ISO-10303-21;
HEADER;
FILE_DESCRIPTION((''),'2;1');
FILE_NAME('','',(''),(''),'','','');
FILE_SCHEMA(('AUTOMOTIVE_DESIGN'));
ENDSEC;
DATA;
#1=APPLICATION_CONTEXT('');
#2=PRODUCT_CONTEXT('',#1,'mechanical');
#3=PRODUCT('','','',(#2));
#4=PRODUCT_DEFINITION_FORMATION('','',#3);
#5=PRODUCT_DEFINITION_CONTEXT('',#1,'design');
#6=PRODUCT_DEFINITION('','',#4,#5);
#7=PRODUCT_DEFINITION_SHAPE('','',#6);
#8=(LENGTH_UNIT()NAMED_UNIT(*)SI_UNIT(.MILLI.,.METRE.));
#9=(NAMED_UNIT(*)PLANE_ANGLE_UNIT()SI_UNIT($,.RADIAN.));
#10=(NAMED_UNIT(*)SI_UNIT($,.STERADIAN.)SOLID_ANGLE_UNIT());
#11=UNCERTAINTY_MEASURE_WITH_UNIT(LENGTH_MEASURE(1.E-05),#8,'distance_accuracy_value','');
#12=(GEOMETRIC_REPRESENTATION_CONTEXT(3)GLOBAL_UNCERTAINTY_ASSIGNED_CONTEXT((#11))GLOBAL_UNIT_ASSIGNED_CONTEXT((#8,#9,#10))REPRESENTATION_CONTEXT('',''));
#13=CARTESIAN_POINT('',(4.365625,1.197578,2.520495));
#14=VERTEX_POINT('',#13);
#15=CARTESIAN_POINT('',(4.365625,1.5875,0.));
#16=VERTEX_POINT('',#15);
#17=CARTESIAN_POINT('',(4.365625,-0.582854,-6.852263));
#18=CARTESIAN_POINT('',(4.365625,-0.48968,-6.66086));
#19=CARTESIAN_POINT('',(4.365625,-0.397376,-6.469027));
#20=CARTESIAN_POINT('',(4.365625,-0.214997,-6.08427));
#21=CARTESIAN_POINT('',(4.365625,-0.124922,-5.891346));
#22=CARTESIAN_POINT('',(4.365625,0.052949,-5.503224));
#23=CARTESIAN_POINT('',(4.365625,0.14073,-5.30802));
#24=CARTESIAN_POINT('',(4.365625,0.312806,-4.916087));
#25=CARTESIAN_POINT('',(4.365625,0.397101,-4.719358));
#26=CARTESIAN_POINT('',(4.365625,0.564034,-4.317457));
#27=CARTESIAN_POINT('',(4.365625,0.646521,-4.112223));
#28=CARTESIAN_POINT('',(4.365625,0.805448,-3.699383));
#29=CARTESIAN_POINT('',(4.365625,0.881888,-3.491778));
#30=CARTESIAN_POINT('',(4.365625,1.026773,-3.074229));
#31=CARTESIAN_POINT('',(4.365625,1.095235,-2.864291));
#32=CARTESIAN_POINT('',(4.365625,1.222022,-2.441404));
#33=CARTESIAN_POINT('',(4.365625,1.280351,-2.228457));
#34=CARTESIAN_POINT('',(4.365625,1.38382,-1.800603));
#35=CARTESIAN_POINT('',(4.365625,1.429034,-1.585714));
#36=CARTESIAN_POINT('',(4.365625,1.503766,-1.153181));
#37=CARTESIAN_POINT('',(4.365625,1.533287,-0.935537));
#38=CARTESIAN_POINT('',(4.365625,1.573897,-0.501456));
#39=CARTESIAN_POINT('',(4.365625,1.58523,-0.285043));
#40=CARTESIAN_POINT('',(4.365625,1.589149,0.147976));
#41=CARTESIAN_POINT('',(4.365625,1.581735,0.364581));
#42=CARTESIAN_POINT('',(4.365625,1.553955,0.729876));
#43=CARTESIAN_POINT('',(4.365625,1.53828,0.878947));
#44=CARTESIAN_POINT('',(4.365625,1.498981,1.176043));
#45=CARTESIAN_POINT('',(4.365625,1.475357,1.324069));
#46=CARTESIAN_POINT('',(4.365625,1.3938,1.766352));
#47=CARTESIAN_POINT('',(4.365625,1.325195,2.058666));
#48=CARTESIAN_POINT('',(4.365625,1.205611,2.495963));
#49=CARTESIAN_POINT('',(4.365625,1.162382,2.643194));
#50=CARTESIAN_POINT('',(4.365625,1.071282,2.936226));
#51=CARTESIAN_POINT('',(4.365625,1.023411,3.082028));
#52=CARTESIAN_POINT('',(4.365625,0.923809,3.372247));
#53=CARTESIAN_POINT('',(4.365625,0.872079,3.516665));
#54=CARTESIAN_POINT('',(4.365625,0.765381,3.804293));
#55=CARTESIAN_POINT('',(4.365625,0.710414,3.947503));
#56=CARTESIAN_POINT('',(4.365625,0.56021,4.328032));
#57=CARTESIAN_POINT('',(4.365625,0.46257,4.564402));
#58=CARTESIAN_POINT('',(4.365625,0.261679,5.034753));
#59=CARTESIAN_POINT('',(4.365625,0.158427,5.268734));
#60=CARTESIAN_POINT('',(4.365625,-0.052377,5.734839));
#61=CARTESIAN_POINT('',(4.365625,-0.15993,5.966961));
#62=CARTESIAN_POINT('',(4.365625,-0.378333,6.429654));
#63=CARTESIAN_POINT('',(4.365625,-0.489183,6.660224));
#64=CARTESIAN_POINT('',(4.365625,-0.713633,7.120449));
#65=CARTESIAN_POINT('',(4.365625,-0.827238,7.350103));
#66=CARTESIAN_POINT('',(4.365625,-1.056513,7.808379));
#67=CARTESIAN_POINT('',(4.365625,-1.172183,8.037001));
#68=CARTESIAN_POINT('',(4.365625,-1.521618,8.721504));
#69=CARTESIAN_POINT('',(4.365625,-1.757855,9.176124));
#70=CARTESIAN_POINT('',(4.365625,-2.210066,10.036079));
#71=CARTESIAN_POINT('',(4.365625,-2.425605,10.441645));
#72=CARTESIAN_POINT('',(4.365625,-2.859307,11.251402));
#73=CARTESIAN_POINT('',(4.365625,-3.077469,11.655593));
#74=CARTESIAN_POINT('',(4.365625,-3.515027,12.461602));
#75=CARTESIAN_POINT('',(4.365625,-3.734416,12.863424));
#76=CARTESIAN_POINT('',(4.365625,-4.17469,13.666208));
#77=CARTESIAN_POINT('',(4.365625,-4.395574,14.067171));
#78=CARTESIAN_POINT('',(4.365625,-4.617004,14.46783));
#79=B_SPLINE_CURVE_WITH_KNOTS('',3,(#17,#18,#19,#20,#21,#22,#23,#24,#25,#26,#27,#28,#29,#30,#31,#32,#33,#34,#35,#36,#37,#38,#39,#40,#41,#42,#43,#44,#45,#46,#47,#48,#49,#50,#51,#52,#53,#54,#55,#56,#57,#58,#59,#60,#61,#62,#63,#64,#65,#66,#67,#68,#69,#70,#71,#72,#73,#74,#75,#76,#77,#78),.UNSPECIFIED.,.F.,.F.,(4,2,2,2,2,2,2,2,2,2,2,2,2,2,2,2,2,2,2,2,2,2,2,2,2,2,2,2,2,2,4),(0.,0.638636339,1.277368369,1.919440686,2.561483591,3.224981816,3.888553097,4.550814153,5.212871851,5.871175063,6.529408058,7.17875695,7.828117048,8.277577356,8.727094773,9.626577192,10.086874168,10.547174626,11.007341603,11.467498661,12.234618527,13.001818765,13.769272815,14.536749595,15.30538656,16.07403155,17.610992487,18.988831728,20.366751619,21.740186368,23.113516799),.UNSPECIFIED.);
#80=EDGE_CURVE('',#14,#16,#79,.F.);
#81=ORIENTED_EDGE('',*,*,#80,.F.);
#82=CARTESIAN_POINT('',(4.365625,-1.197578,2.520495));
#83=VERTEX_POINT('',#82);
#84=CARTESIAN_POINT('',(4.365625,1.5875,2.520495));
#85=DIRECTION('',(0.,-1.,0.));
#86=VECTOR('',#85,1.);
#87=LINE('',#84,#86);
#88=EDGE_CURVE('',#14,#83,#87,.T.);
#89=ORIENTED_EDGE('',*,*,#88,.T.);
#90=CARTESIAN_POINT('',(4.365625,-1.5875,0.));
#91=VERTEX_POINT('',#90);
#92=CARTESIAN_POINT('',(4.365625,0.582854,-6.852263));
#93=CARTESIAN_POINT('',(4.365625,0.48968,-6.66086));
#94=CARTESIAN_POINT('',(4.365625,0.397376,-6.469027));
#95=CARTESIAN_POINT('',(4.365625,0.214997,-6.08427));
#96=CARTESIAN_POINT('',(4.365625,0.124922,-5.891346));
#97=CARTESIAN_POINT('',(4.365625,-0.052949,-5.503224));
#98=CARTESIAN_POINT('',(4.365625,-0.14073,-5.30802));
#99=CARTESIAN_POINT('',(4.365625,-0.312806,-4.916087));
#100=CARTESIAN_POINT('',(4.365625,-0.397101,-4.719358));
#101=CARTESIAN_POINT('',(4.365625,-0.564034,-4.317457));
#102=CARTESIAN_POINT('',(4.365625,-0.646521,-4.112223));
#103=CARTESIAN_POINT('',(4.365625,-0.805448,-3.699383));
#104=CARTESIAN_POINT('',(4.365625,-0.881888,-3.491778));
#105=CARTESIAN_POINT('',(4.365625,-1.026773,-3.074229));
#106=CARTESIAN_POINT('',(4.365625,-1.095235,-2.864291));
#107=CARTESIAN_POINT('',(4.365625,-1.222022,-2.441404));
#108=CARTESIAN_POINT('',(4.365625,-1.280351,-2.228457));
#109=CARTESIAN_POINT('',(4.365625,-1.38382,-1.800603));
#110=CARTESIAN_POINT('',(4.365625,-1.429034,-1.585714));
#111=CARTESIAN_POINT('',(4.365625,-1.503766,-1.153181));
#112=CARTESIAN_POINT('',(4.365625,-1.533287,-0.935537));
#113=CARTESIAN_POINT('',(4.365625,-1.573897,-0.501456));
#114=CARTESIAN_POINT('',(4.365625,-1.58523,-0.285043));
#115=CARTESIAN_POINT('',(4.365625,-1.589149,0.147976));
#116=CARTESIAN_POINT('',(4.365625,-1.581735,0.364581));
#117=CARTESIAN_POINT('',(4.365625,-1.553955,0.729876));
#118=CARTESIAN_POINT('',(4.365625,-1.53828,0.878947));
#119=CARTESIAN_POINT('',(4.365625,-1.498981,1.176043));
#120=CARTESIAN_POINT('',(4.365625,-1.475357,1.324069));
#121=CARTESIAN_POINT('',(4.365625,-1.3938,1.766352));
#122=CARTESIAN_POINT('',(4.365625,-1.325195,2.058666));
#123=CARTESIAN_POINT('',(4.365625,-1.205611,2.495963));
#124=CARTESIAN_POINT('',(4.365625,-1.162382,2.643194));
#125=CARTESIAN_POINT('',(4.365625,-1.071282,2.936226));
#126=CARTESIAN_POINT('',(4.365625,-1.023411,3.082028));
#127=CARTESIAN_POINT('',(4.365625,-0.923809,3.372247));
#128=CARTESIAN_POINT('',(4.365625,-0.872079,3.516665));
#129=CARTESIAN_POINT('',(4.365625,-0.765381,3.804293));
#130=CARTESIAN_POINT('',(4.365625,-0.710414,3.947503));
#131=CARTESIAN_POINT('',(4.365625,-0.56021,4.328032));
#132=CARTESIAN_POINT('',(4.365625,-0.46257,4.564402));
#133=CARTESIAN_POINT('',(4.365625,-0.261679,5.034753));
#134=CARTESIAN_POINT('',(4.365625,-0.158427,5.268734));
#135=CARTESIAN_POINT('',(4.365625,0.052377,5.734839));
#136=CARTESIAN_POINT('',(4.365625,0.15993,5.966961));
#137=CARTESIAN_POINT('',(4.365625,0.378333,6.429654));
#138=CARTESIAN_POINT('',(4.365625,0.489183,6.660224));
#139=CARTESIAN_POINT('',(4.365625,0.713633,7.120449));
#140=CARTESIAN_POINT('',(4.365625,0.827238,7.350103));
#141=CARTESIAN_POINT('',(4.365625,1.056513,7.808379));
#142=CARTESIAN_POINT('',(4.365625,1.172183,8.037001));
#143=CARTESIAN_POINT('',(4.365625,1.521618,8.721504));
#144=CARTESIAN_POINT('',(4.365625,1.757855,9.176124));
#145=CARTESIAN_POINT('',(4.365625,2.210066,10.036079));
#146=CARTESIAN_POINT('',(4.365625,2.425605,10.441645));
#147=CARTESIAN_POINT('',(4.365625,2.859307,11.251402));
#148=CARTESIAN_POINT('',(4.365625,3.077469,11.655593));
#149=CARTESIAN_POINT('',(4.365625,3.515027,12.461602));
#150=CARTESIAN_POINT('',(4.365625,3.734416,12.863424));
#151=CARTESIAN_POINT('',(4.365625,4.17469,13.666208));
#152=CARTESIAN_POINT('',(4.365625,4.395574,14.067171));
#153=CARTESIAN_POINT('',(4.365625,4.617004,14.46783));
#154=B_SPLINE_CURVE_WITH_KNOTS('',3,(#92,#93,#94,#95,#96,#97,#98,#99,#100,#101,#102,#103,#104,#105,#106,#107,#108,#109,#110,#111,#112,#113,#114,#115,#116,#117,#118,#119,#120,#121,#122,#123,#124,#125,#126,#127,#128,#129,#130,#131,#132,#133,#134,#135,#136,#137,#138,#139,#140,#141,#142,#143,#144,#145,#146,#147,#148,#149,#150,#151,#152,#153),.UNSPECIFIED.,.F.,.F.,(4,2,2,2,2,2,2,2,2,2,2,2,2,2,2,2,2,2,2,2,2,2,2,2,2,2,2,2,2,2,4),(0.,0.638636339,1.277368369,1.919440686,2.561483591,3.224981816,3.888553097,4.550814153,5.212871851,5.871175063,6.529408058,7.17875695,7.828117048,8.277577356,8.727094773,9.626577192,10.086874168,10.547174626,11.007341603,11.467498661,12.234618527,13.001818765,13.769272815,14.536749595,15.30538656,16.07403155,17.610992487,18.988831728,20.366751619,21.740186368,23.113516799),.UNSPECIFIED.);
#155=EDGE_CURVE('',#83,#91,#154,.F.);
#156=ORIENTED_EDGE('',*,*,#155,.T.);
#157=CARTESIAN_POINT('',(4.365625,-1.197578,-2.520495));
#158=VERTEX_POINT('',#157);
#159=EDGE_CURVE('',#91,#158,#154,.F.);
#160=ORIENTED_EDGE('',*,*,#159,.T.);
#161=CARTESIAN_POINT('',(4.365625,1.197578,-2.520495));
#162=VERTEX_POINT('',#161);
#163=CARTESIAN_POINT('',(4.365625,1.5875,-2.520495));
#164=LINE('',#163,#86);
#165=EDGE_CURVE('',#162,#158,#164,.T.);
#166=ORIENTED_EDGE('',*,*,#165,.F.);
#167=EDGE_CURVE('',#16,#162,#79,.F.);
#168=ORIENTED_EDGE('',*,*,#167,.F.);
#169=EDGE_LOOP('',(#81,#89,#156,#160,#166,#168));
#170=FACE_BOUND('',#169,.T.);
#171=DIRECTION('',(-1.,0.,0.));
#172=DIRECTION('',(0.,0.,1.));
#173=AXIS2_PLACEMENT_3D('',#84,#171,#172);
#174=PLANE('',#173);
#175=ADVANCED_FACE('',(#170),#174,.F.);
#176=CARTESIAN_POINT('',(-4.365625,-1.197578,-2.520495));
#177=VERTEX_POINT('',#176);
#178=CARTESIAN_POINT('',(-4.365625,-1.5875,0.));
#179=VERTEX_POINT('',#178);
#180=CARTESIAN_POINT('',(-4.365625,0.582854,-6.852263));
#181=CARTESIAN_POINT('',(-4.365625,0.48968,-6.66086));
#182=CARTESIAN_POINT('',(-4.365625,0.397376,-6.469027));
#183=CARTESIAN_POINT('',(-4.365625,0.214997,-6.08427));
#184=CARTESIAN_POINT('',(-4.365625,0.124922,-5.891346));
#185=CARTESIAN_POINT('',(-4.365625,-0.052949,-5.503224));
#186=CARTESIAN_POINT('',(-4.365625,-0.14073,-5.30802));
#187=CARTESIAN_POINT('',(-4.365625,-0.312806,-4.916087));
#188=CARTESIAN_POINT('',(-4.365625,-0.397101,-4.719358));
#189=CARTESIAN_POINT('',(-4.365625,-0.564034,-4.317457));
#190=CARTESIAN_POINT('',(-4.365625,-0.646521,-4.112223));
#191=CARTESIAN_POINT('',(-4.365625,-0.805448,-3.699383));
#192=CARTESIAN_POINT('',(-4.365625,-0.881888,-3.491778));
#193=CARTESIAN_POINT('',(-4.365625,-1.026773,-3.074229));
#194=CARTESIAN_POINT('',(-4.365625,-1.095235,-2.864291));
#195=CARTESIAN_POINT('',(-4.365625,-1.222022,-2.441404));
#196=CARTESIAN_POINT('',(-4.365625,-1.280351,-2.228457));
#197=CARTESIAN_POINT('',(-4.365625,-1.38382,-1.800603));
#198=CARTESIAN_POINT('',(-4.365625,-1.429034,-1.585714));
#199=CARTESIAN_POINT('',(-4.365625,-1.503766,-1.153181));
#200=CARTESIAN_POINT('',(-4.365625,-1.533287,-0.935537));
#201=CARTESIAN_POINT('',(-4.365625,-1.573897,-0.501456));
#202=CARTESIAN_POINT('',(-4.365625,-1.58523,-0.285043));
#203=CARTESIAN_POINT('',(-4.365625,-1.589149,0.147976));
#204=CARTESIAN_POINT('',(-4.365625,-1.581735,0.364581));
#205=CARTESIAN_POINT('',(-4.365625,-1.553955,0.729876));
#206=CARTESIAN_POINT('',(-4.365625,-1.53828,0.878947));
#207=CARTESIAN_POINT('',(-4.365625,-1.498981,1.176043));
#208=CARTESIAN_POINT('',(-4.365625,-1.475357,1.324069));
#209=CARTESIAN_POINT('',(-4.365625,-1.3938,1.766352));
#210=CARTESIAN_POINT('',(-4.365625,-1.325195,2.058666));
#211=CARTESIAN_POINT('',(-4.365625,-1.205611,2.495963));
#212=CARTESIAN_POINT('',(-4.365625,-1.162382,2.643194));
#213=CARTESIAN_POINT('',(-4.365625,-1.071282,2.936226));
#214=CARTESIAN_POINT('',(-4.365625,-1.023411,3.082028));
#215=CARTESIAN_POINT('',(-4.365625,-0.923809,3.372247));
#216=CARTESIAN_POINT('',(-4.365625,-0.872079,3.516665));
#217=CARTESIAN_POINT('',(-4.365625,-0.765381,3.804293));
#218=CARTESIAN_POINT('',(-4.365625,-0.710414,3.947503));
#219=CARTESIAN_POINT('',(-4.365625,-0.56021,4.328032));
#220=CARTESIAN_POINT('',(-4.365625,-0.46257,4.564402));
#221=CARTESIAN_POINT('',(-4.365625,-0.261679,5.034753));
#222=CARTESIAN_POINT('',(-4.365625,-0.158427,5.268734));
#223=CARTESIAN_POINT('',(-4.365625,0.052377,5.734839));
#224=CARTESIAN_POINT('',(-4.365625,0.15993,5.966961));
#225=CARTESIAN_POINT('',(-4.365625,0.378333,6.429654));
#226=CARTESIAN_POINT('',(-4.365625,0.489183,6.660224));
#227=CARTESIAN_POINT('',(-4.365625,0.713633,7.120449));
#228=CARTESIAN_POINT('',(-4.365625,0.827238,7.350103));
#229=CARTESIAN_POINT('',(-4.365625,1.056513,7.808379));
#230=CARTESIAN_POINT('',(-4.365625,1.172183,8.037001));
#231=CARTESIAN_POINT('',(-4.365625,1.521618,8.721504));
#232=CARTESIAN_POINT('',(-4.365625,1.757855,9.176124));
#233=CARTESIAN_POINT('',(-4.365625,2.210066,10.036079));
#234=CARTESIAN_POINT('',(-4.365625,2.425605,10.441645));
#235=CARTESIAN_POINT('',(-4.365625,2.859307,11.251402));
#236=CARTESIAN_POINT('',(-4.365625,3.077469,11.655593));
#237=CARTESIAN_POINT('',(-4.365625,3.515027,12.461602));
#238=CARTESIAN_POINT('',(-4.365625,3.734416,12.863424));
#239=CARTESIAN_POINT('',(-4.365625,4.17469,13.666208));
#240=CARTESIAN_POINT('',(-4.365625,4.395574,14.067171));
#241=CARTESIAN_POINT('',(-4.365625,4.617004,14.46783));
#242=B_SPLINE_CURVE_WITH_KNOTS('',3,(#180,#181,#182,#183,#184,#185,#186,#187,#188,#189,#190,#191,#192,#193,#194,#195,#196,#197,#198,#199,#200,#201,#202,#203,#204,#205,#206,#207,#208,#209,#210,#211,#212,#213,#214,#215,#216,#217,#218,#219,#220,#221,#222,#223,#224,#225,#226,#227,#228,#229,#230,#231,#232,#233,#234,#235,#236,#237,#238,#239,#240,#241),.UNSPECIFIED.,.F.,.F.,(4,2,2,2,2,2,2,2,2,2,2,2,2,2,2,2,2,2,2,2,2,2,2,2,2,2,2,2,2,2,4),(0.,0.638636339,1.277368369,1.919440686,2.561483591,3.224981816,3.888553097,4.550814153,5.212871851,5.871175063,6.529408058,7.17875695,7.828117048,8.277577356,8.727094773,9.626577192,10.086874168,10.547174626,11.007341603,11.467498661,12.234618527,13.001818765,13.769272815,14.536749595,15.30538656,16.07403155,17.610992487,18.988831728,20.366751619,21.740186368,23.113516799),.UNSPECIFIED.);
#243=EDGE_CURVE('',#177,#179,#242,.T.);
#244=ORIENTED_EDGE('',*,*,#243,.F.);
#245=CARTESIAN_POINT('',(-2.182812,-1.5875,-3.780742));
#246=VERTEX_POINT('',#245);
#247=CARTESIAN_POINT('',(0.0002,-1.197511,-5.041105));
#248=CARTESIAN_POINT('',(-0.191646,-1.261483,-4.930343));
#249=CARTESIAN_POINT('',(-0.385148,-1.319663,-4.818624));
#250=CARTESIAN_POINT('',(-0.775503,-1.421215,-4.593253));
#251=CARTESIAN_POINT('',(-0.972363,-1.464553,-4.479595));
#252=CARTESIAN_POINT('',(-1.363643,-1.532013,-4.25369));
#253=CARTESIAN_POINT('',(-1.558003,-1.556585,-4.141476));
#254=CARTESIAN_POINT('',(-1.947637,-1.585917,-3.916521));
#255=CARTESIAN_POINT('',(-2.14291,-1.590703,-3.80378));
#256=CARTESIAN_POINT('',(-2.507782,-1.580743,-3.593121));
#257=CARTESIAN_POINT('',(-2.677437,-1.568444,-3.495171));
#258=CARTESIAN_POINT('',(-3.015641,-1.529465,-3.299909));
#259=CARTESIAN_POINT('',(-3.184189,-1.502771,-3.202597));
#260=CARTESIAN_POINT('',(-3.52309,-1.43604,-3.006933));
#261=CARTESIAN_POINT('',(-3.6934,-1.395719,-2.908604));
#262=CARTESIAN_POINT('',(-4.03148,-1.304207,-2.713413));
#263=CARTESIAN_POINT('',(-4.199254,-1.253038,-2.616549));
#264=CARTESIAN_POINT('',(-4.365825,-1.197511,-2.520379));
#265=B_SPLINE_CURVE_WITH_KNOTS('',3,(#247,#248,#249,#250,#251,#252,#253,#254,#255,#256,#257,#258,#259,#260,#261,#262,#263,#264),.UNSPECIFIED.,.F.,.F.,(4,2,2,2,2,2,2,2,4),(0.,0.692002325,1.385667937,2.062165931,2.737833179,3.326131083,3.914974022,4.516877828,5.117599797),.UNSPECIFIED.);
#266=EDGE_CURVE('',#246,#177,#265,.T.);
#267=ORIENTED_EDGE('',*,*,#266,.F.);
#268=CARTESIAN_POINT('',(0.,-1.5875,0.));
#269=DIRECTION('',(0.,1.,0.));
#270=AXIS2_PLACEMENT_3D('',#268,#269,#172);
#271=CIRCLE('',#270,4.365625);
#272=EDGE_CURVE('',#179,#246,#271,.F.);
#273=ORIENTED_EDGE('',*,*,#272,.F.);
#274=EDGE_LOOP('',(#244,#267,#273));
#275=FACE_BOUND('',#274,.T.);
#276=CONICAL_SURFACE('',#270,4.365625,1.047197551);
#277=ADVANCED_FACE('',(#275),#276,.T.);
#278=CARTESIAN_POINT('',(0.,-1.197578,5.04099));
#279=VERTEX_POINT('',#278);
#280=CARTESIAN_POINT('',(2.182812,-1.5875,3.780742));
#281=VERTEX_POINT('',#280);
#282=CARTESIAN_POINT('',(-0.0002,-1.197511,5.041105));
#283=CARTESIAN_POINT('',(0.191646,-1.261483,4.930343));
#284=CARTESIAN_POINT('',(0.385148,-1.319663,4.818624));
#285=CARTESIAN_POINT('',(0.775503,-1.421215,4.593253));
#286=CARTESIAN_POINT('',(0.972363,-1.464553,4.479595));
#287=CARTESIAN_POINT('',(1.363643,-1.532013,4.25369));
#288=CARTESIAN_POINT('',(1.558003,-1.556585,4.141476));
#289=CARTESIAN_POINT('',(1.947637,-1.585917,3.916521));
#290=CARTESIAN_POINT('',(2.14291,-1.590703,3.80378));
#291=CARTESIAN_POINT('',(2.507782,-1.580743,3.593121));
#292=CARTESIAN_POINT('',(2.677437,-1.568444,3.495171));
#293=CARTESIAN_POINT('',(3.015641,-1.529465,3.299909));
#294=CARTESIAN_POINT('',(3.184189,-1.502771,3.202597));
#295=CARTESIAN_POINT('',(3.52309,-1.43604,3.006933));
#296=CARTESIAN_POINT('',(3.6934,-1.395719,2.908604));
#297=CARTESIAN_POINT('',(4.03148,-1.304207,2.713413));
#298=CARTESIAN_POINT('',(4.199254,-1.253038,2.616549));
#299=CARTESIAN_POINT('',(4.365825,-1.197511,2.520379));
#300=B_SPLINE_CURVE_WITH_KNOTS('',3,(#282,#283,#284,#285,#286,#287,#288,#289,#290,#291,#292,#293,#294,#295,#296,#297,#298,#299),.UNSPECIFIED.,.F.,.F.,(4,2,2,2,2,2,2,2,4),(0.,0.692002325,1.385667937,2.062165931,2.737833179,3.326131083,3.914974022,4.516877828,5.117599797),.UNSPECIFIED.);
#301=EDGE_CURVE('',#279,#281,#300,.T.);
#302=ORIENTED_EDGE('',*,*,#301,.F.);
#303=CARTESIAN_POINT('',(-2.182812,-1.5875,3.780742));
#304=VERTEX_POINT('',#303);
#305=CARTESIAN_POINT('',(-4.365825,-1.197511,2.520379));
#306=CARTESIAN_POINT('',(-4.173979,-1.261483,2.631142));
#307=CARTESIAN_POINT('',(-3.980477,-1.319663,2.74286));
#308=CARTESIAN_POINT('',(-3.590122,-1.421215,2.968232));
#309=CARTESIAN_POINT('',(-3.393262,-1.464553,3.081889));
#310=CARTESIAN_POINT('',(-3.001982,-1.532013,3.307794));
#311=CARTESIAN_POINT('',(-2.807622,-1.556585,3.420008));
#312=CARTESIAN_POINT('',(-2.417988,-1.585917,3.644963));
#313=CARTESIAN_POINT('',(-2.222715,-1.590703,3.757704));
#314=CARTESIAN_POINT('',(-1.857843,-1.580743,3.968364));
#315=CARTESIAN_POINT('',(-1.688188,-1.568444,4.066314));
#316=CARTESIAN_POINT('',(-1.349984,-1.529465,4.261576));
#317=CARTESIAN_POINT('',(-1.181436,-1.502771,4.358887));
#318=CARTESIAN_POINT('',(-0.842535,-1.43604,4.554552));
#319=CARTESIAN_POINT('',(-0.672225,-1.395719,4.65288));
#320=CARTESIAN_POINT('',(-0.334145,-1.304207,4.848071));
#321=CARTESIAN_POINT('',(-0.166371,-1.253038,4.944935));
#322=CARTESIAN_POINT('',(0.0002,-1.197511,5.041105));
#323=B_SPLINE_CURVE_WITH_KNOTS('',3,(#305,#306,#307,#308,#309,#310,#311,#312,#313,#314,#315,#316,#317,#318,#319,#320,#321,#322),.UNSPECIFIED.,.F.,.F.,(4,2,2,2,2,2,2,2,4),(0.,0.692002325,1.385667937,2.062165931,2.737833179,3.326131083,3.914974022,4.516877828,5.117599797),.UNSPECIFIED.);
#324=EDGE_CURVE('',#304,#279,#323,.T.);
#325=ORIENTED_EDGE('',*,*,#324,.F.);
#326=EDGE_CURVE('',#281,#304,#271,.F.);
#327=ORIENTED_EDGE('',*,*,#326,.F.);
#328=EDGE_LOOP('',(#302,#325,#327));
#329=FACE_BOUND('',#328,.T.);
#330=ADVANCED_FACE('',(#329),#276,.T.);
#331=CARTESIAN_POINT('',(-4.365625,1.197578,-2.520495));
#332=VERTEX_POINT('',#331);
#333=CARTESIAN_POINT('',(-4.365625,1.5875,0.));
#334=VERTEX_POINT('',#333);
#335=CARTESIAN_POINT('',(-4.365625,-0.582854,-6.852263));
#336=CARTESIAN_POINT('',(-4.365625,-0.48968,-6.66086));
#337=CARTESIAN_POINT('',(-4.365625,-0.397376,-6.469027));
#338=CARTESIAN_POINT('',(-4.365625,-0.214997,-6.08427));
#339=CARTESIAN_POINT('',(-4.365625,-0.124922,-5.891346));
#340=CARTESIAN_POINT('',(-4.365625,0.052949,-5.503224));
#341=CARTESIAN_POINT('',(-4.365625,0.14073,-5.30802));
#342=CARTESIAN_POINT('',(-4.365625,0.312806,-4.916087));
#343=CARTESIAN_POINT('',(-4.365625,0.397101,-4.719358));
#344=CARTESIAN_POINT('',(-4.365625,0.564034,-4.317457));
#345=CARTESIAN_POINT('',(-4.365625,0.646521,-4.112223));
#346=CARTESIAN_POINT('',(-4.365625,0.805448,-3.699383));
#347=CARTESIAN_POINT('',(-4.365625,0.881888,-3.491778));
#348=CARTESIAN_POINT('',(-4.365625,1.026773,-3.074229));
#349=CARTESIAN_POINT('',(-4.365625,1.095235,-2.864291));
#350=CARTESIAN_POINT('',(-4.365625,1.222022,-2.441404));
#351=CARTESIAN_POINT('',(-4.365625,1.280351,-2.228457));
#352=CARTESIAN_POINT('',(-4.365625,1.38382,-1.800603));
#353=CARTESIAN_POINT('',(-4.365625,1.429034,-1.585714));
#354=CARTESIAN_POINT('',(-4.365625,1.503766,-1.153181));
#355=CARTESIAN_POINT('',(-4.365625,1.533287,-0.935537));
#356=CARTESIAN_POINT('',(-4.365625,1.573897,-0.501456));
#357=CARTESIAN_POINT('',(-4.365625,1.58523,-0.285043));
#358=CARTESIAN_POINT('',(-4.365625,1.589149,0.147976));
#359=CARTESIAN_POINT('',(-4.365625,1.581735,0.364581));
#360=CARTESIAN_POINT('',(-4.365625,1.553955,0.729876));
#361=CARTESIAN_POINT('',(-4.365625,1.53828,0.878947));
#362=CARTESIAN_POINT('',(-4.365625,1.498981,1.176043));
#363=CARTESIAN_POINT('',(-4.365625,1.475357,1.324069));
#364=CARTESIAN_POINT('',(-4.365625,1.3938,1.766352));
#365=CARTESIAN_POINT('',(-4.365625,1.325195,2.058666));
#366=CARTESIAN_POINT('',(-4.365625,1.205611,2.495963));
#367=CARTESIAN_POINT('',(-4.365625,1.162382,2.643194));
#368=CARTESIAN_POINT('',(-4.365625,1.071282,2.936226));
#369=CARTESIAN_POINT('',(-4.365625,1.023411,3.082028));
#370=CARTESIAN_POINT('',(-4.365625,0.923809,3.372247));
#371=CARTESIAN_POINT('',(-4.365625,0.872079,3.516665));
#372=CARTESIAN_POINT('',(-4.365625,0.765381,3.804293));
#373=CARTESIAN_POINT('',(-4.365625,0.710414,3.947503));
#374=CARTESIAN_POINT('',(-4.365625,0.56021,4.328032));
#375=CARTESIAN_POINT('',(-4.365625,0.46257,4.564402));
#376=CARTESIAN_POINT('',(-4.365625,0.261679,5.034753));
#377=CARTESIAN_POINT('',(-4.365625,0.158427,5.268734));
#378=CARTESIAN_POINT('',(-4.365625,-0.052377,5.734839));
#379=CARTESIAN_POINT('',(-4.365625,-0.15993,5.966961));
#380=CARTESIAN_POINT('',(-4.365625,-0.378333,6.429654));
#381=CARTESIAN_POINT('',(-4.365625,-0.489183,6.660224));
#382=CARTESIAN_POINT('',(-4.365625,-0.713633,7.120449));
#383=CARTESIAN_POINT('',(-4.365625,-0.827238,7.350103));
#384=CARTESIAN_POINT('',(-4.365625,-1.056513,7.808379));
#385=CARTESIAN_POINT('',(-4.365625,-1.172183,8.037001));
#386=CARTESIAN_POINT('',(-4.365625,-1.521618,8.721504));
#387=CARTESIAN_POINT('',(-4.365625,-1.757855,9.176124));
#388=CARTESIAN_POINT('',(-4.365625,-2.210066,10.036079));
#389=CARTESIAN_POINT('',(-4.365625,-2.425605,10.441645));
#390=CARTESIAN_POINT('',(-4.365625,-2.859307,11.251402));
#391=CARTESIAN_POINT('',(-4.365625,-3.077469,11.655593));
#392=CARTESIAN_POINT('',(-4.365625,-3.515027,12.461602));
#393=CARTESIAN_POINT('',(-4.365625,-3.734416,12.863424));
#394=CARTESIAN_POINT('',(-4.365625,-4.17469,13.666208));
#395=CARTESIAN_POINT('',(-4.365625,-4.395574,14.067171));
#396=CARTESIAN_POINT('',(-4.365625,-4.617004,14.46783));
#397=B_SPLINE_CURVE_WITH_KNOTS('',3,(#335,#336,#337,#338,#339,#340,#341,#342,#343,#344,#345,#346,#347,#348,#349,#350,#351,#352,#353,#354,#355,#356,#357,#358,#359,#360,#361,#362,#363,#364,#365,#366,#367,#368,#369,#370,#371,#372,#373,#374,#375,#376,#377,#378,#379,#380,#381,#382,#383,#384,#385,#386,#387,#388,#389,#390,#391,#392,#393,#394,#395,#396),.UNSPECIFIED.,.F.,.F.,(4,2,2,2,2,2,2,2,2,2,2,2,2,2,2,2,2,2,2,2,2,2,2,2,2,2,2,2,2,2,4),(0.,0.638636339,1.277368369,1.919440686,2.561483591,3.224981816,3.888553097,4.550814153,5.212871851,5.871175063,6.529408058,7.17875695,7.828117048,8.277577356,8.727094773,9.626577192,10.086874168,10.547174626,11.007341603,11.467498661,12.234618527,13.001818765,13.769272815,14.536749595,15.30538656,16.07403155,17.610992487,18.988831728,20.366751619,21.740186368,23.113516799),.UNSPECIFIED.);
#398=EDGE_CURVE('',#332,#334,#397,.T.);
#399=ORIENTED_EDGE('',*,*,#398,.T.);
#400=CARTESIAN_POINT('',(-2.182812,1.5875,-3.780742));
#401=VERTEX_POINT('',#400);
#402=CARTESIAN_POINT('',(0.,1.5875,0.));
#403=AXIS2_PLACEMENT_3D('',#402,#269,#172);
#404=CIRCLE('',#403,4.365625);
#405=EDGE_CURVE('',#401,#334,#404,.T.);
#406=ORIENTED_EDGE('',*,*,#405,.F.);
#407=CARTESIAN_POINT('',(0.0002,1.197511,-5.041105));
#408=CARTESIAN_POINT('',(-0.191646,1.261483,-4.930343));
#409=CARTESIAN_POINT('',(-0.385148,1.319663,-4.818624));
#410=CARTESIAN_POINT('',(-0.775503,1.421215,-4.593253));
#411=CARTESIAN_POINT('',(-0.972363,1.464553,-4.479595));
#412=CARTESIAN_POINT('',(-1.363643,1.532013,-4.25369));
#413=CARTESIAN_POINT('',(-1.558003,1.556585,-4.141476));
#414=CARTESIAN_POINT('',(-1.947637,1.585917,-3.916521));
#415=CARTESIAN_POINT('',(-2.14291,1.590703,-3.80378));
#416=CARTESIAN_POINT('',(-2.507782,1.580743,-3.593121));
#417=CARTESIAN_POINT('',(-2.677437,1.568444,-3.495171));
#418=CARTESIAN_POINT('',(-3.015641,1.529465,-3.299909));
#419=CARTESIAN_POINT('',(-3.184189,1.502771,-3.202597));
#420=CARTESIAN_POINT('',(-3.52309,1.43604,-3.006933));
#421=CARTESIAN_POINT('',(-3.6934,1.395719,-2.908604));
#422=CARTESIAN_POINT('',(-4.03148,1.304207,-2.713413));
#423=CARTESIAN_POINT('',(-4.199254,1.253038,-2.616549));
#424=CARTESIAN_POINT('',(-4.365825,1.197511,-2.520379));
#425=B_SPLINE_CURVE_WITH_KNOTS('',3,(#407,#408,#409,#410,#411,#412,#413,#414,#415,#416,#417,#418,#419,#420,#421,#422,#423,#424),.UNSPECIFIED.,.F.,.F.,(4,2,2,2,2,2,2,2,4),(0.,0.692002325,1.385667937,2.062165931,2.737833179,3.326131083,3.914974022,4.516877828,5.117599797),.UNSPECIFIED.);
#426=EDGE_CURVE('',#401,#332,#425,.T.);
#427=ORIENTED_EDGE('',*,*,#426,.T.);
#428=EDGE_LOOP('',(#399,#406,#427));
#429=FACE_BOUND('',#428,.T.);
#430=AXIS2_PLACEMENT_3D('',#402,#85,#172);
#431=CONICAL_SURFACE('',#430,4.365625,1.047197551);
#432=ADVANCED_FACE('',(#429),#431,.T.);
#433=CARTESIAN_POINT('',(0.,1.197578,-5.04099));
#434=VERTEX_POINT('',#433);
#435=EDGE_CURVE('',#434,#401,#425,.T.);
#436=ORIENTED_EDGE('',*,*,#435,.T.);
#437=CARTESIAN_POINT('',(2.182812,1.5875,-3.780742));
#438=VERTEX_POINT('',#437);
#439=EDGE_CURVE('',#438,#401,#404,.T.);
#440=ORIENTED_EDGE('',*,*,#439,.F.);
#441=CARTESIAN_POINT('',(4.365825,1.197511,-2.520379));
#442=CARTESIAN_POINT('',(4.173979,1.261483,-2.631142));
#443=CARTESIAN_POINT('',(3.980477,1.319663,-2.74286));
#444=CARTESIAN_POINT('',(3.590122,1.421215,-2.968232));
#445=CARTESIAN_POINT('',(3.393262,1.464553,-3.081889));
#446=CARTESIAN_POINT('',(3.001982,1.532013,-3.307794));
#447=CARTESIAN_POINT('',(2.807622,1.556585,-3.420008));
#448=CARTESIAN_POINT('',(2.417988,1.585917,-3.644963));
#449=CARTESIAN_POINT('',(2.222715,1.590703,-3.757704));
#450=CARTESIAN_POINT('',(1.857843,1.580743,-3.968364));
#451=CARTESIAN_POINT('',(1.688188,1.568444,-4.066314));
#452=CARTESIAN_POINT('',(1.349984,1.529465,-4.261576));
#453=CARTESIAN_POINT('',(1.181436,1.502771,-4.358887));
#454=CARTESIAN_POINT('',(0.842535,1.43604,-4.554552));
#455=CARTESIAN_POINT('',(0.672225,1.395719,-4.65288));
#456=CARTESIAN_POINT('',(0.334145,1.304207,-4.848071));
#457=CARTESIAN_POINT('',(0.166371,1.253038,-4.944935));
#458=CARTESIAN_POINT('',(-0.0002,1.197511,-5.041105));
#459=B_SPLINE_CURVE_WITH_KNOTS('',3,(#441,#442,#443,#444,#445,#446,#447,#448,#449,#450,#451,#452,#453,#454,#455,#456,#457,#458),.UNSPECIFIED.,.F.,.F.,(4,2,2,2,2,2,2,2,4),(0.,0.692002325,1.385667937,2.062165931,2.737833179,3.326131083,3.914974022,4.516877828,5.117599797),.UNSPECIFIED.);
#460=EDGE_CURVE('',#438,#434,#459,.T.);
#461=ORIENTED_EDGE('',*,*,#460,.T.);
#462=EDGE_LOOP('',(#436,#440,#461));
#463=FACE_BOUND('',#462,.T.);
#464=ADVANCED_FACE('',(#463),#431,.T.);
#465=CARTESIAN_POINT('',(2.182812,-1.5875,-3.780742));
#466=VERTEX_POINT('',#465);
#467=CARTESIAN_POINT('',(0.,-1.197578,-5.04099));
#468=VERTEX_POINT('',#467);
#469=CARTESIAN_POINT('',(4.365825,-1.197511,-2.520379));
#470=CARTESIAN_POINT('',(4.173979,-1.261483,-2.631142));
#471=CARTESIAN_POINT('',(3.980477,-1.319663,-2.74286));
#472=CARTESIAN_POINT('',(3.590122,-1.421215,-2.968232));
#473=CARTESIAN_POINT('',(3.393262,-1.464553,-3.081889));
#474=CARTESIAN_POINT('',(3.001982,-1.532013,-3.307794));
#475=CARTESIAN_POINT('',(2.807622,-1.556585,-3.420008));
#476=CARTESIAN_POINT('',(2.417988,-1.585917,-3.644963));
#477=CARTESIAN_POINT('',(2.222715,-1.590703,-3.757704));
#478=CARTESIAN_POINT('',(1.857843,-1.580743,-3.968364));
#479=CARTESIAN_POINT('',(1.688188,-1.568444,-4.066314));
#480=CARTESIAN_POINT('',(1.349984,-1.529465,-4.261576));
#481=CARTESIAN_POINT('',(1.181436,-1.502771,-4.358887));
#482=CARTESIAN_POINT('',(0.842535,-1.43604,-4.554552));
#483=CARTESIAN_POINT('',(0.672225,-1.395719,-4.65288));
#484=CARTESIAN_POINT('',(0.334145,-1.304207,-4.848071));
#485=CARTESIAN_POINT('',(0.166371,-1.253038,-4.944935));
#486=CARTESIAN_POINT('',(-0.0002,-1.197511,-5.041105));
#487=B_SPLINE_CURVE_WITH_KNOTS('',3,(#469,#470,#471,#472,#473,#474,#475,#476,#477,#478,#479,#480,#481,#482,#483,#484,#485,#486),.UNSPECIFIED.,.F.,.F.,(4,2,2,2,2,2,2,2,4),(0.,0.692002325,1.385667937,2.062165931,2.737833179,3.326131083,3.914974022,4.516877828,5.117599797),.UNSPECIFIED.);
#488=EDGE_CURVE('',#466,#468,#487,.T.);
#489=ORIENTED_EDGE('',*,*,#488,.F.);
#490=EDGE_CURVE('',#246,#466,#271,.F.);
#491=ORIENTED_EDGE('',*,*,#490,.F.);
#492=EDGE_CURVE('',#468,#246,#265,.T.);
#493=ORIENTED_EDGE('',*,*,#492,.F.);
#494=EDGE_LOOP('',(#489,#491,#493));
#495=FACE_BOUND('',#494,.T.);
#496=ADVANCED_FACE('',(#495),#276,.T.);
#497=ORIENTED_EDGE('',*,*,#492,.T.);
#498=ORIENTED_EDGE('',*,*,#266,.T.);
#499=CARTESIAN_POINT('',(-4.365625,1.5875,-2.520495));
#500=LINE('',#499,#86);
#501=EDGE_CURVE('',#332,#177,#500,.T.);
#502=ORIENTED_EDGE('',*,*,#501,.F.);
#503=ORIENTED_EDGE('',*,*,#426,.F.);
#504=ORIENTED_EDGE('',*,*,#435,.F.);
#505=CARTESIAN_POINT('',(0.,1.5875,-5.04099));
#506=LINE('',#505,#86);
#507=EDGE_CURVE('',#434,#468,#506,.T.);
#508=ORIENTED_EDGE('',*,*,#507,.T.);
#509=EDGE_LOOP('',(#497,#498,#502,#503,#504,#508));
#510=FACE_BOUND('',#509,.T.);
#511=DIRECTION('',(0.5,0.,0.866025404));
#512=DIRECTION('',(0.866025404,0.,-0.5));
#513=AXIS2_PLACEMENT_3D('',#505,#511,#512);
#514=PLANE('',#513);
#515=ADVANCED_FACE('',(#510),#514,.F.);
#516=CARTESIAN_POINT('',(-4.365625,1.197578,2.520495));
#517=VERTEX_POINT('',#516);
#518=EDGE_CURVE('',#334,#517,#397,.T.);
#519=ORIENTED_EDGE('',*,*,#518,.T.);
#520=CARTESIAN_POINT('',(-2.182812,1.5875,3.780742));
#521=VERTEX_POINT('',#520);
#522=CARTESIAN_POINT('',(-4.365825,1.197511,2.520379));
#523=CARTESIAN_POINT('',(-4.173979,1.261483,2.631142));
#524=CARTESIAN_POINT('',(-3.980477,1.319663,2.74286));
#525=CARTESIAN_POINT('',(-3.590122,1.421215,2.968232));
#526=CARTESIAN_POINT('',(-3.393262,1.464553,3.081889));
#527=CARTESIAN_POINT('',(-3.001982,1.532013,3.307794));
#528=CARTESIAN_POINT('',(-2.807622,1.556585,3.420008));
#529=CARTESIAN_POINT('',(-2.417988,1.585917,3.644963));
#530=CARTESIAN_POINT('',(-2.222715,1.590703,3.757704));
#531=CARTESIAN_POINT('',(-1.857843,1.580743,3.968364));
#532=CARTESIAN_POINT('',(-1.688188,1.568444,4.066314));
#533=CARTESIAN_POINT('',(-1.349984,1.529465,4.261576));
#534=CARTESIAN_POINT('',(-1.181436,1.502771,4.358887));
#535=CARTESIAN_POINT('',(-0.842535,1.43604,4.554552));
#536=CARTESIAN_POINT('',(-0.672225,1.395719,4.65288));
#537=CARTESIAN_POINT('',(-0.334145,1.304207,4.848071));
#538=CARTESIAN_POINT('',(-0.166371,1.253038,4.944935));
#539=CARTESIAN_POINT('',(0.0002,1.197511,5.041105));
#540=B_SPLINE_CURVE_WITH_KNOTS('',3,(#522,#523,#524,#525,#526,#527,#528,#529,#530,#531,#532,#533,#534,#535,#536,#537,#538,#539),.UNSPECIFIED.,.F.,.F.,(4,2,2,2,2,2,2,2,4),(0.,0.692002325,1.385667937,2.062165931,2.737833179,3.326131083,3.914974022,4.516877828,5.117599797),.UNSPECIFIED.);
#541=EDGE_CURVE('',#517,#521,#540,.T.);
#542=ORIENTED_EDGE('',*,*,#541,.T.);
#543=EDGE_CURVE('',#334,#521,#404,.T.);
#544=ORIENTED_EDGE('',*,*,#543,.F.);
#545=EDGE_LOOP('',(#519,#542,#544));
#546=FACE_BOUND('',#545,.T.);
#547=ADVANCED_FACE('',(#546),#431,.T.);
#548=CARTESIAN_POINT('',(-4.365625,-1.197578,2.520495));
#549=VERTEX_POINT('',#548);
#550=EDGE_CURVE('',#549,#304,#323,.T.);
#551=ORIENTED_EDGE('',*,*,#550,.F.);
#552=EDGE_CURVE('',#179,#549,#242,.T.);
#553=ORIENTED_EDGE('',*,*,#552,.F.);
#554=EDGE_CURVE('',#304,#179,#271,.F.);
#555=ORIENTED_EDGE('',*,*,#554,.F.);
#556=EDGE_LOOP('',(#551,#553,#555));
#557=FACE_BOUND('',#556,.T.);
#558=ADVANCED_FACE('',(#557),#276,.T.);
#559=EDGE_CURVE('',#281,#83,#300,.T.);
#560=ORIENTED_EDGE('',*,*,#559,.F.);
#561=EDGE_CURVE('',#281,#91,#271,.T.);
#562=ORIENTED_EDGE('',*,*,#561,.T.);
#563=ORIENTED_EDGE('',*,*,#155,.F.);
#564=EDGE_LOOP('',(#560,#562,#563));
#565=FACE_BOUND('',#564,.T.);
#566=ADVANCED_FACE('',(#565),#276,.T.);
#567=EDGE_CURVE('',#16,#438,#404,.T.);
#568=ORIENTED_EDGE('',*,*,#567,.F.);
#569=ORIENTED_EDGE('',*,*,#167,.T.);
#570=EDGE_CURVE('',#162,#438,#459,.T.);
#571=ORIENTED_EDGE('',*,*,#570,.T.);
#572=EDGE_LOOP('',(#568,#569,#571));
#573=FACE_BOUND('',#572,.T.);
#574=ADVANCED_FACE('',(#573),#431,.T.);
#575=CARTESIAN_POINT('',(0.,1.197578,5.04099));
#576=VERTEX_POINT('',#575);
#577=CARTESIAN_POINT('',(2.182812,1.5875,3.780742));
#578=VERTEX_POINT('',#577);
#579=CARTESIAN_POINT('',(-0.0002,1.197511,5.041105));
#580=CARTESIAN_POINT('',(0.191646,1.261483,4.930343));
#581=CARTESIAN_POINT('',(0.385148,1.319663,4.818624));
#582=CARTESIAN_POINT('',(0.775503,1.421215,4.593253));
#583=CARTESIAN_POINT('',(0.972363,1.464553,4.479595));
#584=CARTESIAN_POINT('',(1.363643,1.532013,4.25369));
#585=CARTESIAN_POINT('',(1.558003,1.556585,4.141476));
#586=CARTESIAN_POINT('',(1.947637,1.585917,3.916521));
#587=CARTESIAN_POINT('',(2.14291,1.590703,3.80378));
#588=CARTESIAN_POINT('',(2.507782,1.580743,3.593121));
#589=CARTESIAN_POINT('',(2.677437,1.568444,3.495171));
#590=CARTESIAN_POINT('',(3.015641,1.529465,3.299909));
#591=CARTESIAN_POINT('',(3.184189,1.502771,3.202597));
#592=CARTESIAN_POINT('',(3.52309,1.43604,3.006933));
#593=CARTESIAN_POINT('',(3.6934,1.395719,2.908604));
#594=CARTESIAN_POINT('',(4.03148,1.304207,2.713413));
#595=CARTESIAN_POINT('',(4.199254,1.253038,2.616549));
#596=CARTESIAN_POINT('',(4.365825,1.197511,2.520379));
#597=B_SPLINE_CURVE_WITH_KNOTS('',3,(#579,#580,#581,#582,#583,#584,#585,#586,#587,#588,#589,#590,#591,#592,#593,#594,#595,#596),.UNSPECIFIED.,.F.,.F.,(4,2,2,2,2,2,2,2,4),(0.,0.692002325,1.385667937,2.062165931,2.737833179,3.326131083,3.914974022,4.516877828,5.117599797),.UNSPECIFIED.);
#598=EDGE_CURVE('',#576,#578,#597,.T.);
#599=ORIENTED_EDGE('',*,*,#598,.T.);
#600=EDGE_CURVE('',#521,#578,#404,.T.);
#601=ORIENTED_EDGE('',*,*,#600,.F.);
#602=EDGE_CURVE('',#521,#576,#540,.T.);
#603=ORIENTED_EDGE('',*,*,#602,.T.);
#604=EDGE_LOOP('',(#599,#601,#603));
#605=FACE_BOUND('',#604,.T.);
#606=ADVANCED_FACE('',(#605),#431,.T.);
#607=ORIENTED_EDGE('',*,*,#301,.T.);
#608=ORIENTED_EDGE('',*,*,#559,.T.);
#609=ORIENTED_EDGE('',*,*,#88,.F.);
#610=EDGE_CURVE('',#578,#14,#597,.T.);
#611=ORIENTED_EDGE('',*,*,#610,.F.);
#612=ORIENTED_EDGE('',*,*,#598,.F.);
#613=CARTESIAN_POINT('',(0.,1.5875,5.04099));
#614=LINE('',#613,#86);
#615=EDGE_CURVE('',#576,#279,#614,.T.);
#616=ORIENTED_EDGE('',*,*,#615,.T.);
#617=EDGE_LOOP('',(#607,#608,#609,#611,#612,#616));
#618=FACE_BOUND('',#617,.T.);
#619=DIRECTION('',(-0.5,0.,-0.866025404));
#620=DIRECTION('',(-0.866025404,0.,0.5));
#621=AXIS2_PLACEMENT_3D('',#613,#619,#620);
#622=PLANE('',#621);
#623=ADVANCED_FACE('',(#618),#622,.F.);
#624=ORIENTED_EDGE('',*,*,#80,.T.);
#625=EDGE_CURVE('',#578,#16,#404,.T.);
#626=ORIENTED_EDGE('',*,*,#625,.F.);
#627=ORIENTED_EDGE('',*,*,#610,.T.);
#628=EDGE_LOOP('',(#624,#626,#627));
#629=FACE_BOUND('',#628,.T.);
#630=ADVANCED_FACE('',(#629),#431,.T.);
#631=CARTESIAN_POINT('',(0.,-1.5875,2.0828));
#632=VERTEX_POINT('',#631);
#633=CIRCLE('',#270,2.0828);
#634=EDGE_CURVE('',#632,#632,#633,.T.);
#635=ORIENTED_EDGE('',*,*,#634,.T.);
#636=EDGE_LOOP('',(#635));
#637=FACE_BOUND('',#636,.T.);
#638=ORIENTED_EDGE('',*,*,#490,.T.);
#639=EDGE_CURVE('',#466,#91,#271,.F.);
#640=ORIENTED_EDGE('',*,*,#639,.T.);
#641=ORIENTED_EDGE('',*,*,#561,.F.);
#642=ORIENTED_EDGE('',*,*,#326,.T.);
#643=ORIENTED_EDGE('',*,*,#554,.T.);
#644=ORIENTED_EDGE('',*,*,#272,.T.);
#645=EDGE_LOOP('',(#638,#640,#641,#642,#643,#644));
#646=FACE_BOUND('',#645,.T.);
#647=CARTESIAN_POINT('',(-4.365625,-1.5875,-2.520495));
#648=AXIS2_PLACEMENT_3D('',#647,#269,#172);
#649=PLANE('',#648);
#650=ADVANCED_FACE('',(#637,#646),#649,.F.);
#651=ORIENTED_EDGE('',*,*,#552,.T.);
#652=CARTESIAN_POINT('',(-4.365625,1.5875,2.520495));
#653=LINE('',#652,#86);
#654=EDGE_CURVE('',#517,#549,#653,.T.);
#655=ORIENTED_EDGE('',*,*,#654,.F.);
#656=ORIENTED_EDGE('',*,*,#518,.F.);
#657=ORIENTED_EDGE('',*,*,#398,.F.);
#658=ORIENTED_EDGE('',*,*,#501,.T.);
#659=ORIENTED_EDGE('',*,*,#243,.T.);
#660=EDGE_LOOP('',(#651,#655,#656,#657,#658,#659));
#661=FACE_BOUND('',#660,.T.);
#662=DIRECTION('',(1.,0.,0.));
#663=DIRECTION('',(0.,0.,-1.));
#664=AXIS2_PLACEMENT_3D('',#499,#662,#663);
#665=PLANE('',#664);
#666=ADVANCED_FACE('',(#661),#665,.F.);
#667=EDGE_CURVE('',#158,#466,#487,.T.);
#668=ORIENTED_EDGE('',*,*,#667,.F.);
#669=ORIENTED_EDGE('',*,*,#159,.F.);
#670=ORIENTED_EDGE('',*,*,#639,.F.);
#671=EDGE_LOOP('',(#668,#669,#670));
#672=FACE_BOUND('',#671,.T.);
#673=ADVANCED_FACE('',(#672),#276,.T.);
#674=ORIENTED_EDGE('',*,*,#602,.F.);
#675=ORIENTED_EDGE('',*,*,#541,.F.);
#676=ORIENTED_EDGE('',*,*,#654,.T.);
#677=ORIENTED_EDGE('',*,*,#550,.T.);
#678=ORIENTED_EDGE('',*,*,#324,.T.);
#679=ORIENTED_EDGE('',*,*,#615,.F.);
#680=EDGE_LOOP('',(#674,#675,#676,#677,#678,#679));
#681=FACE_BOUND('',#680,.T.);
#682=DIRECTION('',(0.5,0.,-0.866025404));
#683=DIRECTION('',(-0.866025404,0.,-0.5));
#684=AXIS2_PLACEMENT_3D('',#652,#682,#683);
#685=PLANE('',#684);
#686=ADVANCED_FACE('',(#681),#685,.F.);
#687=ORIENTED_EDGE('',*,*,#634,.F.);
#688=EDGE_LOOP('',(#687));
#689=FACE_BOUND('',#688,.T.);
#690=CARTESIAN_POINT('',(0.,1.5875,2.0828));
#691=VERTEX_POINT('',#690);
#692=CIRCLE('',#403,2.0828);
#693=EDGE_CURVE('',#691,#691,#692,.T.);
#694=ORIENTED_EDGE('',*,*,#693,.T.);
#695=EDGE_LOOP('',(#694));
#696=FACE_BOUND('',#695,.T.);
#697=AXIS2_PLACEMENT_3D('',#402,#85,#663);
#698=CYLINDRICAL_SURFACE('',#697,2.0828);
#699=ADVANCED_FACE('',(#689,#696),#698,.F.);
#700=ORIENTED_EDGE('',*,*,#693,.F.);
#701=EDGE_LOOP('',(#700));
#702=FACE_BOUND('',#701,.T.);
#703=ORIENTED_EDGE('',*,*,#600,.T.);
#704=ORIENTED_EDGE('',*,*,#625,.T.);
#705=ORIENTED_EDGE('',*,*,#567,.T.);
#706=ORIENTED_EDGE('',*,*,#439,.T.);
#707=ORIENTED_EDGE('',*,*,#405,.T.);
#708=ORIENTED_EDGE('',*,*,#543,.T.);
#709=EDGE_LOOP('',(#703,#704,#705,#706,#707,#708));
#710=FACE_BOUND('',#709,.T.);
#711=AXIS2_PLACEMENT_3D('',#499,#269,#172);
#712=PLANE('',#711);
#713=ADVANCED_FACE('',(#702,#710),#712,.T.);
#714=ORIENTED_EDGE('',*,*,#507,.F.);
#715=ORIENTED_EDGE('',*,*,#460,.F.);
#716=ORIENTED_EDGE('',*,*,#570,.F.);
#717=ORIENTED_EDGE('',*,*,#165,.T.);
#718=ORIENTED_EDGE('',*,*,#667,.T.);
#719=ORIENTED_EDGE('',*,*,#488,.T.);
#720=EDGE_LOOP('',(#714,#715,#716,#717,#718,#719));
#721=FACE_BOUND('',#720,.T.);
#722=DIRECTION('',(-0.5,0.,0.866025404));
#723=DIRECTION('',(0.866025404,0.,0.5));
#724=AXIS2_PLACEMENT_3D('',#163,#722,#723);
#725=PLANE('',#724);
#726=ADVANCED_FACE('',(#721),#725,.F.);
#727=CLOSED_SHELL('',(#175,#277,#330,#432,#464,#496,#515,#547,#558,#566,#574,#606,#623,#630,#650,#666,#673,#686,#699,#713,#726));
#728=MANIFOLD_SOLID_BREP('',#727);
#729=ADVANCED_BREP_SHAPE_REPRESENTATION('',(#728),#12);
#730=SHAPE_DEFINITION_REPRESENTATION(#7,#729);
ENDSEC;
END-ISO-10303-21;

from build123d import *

# Parameters (mm, degrees)
SKETCH1_R               = 2.0828
BOSS_EXTRUDE1_DEPTH     = 1.5875
SKETCH5_OUTSIDE_W       = 42.524
SKETCH5_OUTSIDE_H       = 43.874
SKETCH5_OUTSIDE_R       = 4.365625
CUT_EXTRUDE2_DEPTH      = 8.385856901
CUT_EXTRUDE2_DRAFT      = -60
MIRROR1_COPY_1_SKETCH_W = 42.524
MIRROR1_COPY_1_SKETCH_H = 43.874
MIRROR1_COPY_1_SKETCH_R = 4.365625
MIRROR1_COPY_1_DEPTH    = 8.385856901
MIRROR1_COPY_1_DRAFT    = -60


with BuildPart() as part:
    # Sketch1 → Boss-Extrude1 (new, symmetric)
    with BuildSketch(Plane(origin=(0, 0, 0), x_dir=(1, 0, 0), z_dir=(0, 1, 0))):
        Polygon((-4.365625, 2.520494769), (-4.365625, -2.520494769), (0, -5.040989538), (4.365625, -2.520494769), (4.365625, 2.520494769), (0, 5.040989538), align=None)
        Circle(SKETCH1_R, mode=Mode.SUBTRACT)
    extrude(amount=BOSS_EXTRUDE1_DEPTH, both=True)


with BuildPart() as cut_extrude2_tool:
    # Sketch5 outside → Cut-Extrude2 (with draft: the straight prism first)
    with BuildSketch(Plane(origin=(0, 1.5875, 0), x_dir=(1, 0, 0), z_dir=(0, 1, 0))):
        Rectangle(SKETCH5_OUTSIDE_W, SKETCH5_OUTSIDE_H)
        Circle(SKETCH5_OUTSIDE_R, mode=Mode.SUBTRACT)
    extrude(amount=-CUT_EXTRUDE2_DEPTH)
    # Cut-Extrude2: the draft: its side faces are tilted about the plane it starts from
    cut_extrude2_sides = [cut_extrude2_tool.faces().sort_by_distance(p)[0] for p in [
        (0, -2.60542845, 21.937),
        (21.262, -2.60542845, 0),
        (0, -2.60542845, -21.937),
        (-21.262, -2.60542845, 0),
        (-4.365625, -2.60542845, 0),
    ]]
    draft(cut_extrude2_sides, Plane(origin=(0, 1.5875, 0), x_dir=(1, 0, 0), z_dir=(0, 1, 0)), CUT_EXTRUDE2_DRAFT)


with BuildPart() as part_1:
    add(part.part)

    # Cut-Extrude2: cut by cut_extrude2_tool
    add(cut_extrude2_tool.part, mode=Mode.SUBTRACT)


with BuildPart() as mirror1_copy_1_tool:
    # Mirror1 copy 1 sketch → Mirror1 copy 1 (with draft: the straight prism first)
    with BuildSketch(Plane.XZ.offset(1.5875)):
        Rectangle(MIRROR1_COPY_1_SKETCH_W, MIRROR1_COPY_1_SKETCH_H)
        Circle(MIRROR1_COPY_1_SKETCH_R, mode=Mode.SUBTRACT)
    extrude(amount=-MIRROR1_COPY_1_DEPTH)
    # Mirror1 copy 1: the draft: its side faces are tilted about the plane it starts from
    mirror1_copy_1_sides = [mirror1_copy_1_tool.faces().sort_by_distance(p)[0] for p in [
        (0, 2.60542845, 21.937),
        (21.262, 2.60542845, 0),
        (0, 2.60542845, -21.937),
        (-21.262, 2.60542845, 0),
        (-4.365625, 2.60542845, 0),
    ]]
    draft(mirror1_copy_1_sides, Plane.XZ.offset(1.5875), MIRROR1_COPY_1_DRAFT)


with BuildPart() as part_2:
    add(part_1.part)

    # Mirror1 copy 1: cut by mirror1_copy_1_tool
    add(mirror1_copy_1_tool.part, mode=Mode.SUBTRACT)


solid = part_2.part
